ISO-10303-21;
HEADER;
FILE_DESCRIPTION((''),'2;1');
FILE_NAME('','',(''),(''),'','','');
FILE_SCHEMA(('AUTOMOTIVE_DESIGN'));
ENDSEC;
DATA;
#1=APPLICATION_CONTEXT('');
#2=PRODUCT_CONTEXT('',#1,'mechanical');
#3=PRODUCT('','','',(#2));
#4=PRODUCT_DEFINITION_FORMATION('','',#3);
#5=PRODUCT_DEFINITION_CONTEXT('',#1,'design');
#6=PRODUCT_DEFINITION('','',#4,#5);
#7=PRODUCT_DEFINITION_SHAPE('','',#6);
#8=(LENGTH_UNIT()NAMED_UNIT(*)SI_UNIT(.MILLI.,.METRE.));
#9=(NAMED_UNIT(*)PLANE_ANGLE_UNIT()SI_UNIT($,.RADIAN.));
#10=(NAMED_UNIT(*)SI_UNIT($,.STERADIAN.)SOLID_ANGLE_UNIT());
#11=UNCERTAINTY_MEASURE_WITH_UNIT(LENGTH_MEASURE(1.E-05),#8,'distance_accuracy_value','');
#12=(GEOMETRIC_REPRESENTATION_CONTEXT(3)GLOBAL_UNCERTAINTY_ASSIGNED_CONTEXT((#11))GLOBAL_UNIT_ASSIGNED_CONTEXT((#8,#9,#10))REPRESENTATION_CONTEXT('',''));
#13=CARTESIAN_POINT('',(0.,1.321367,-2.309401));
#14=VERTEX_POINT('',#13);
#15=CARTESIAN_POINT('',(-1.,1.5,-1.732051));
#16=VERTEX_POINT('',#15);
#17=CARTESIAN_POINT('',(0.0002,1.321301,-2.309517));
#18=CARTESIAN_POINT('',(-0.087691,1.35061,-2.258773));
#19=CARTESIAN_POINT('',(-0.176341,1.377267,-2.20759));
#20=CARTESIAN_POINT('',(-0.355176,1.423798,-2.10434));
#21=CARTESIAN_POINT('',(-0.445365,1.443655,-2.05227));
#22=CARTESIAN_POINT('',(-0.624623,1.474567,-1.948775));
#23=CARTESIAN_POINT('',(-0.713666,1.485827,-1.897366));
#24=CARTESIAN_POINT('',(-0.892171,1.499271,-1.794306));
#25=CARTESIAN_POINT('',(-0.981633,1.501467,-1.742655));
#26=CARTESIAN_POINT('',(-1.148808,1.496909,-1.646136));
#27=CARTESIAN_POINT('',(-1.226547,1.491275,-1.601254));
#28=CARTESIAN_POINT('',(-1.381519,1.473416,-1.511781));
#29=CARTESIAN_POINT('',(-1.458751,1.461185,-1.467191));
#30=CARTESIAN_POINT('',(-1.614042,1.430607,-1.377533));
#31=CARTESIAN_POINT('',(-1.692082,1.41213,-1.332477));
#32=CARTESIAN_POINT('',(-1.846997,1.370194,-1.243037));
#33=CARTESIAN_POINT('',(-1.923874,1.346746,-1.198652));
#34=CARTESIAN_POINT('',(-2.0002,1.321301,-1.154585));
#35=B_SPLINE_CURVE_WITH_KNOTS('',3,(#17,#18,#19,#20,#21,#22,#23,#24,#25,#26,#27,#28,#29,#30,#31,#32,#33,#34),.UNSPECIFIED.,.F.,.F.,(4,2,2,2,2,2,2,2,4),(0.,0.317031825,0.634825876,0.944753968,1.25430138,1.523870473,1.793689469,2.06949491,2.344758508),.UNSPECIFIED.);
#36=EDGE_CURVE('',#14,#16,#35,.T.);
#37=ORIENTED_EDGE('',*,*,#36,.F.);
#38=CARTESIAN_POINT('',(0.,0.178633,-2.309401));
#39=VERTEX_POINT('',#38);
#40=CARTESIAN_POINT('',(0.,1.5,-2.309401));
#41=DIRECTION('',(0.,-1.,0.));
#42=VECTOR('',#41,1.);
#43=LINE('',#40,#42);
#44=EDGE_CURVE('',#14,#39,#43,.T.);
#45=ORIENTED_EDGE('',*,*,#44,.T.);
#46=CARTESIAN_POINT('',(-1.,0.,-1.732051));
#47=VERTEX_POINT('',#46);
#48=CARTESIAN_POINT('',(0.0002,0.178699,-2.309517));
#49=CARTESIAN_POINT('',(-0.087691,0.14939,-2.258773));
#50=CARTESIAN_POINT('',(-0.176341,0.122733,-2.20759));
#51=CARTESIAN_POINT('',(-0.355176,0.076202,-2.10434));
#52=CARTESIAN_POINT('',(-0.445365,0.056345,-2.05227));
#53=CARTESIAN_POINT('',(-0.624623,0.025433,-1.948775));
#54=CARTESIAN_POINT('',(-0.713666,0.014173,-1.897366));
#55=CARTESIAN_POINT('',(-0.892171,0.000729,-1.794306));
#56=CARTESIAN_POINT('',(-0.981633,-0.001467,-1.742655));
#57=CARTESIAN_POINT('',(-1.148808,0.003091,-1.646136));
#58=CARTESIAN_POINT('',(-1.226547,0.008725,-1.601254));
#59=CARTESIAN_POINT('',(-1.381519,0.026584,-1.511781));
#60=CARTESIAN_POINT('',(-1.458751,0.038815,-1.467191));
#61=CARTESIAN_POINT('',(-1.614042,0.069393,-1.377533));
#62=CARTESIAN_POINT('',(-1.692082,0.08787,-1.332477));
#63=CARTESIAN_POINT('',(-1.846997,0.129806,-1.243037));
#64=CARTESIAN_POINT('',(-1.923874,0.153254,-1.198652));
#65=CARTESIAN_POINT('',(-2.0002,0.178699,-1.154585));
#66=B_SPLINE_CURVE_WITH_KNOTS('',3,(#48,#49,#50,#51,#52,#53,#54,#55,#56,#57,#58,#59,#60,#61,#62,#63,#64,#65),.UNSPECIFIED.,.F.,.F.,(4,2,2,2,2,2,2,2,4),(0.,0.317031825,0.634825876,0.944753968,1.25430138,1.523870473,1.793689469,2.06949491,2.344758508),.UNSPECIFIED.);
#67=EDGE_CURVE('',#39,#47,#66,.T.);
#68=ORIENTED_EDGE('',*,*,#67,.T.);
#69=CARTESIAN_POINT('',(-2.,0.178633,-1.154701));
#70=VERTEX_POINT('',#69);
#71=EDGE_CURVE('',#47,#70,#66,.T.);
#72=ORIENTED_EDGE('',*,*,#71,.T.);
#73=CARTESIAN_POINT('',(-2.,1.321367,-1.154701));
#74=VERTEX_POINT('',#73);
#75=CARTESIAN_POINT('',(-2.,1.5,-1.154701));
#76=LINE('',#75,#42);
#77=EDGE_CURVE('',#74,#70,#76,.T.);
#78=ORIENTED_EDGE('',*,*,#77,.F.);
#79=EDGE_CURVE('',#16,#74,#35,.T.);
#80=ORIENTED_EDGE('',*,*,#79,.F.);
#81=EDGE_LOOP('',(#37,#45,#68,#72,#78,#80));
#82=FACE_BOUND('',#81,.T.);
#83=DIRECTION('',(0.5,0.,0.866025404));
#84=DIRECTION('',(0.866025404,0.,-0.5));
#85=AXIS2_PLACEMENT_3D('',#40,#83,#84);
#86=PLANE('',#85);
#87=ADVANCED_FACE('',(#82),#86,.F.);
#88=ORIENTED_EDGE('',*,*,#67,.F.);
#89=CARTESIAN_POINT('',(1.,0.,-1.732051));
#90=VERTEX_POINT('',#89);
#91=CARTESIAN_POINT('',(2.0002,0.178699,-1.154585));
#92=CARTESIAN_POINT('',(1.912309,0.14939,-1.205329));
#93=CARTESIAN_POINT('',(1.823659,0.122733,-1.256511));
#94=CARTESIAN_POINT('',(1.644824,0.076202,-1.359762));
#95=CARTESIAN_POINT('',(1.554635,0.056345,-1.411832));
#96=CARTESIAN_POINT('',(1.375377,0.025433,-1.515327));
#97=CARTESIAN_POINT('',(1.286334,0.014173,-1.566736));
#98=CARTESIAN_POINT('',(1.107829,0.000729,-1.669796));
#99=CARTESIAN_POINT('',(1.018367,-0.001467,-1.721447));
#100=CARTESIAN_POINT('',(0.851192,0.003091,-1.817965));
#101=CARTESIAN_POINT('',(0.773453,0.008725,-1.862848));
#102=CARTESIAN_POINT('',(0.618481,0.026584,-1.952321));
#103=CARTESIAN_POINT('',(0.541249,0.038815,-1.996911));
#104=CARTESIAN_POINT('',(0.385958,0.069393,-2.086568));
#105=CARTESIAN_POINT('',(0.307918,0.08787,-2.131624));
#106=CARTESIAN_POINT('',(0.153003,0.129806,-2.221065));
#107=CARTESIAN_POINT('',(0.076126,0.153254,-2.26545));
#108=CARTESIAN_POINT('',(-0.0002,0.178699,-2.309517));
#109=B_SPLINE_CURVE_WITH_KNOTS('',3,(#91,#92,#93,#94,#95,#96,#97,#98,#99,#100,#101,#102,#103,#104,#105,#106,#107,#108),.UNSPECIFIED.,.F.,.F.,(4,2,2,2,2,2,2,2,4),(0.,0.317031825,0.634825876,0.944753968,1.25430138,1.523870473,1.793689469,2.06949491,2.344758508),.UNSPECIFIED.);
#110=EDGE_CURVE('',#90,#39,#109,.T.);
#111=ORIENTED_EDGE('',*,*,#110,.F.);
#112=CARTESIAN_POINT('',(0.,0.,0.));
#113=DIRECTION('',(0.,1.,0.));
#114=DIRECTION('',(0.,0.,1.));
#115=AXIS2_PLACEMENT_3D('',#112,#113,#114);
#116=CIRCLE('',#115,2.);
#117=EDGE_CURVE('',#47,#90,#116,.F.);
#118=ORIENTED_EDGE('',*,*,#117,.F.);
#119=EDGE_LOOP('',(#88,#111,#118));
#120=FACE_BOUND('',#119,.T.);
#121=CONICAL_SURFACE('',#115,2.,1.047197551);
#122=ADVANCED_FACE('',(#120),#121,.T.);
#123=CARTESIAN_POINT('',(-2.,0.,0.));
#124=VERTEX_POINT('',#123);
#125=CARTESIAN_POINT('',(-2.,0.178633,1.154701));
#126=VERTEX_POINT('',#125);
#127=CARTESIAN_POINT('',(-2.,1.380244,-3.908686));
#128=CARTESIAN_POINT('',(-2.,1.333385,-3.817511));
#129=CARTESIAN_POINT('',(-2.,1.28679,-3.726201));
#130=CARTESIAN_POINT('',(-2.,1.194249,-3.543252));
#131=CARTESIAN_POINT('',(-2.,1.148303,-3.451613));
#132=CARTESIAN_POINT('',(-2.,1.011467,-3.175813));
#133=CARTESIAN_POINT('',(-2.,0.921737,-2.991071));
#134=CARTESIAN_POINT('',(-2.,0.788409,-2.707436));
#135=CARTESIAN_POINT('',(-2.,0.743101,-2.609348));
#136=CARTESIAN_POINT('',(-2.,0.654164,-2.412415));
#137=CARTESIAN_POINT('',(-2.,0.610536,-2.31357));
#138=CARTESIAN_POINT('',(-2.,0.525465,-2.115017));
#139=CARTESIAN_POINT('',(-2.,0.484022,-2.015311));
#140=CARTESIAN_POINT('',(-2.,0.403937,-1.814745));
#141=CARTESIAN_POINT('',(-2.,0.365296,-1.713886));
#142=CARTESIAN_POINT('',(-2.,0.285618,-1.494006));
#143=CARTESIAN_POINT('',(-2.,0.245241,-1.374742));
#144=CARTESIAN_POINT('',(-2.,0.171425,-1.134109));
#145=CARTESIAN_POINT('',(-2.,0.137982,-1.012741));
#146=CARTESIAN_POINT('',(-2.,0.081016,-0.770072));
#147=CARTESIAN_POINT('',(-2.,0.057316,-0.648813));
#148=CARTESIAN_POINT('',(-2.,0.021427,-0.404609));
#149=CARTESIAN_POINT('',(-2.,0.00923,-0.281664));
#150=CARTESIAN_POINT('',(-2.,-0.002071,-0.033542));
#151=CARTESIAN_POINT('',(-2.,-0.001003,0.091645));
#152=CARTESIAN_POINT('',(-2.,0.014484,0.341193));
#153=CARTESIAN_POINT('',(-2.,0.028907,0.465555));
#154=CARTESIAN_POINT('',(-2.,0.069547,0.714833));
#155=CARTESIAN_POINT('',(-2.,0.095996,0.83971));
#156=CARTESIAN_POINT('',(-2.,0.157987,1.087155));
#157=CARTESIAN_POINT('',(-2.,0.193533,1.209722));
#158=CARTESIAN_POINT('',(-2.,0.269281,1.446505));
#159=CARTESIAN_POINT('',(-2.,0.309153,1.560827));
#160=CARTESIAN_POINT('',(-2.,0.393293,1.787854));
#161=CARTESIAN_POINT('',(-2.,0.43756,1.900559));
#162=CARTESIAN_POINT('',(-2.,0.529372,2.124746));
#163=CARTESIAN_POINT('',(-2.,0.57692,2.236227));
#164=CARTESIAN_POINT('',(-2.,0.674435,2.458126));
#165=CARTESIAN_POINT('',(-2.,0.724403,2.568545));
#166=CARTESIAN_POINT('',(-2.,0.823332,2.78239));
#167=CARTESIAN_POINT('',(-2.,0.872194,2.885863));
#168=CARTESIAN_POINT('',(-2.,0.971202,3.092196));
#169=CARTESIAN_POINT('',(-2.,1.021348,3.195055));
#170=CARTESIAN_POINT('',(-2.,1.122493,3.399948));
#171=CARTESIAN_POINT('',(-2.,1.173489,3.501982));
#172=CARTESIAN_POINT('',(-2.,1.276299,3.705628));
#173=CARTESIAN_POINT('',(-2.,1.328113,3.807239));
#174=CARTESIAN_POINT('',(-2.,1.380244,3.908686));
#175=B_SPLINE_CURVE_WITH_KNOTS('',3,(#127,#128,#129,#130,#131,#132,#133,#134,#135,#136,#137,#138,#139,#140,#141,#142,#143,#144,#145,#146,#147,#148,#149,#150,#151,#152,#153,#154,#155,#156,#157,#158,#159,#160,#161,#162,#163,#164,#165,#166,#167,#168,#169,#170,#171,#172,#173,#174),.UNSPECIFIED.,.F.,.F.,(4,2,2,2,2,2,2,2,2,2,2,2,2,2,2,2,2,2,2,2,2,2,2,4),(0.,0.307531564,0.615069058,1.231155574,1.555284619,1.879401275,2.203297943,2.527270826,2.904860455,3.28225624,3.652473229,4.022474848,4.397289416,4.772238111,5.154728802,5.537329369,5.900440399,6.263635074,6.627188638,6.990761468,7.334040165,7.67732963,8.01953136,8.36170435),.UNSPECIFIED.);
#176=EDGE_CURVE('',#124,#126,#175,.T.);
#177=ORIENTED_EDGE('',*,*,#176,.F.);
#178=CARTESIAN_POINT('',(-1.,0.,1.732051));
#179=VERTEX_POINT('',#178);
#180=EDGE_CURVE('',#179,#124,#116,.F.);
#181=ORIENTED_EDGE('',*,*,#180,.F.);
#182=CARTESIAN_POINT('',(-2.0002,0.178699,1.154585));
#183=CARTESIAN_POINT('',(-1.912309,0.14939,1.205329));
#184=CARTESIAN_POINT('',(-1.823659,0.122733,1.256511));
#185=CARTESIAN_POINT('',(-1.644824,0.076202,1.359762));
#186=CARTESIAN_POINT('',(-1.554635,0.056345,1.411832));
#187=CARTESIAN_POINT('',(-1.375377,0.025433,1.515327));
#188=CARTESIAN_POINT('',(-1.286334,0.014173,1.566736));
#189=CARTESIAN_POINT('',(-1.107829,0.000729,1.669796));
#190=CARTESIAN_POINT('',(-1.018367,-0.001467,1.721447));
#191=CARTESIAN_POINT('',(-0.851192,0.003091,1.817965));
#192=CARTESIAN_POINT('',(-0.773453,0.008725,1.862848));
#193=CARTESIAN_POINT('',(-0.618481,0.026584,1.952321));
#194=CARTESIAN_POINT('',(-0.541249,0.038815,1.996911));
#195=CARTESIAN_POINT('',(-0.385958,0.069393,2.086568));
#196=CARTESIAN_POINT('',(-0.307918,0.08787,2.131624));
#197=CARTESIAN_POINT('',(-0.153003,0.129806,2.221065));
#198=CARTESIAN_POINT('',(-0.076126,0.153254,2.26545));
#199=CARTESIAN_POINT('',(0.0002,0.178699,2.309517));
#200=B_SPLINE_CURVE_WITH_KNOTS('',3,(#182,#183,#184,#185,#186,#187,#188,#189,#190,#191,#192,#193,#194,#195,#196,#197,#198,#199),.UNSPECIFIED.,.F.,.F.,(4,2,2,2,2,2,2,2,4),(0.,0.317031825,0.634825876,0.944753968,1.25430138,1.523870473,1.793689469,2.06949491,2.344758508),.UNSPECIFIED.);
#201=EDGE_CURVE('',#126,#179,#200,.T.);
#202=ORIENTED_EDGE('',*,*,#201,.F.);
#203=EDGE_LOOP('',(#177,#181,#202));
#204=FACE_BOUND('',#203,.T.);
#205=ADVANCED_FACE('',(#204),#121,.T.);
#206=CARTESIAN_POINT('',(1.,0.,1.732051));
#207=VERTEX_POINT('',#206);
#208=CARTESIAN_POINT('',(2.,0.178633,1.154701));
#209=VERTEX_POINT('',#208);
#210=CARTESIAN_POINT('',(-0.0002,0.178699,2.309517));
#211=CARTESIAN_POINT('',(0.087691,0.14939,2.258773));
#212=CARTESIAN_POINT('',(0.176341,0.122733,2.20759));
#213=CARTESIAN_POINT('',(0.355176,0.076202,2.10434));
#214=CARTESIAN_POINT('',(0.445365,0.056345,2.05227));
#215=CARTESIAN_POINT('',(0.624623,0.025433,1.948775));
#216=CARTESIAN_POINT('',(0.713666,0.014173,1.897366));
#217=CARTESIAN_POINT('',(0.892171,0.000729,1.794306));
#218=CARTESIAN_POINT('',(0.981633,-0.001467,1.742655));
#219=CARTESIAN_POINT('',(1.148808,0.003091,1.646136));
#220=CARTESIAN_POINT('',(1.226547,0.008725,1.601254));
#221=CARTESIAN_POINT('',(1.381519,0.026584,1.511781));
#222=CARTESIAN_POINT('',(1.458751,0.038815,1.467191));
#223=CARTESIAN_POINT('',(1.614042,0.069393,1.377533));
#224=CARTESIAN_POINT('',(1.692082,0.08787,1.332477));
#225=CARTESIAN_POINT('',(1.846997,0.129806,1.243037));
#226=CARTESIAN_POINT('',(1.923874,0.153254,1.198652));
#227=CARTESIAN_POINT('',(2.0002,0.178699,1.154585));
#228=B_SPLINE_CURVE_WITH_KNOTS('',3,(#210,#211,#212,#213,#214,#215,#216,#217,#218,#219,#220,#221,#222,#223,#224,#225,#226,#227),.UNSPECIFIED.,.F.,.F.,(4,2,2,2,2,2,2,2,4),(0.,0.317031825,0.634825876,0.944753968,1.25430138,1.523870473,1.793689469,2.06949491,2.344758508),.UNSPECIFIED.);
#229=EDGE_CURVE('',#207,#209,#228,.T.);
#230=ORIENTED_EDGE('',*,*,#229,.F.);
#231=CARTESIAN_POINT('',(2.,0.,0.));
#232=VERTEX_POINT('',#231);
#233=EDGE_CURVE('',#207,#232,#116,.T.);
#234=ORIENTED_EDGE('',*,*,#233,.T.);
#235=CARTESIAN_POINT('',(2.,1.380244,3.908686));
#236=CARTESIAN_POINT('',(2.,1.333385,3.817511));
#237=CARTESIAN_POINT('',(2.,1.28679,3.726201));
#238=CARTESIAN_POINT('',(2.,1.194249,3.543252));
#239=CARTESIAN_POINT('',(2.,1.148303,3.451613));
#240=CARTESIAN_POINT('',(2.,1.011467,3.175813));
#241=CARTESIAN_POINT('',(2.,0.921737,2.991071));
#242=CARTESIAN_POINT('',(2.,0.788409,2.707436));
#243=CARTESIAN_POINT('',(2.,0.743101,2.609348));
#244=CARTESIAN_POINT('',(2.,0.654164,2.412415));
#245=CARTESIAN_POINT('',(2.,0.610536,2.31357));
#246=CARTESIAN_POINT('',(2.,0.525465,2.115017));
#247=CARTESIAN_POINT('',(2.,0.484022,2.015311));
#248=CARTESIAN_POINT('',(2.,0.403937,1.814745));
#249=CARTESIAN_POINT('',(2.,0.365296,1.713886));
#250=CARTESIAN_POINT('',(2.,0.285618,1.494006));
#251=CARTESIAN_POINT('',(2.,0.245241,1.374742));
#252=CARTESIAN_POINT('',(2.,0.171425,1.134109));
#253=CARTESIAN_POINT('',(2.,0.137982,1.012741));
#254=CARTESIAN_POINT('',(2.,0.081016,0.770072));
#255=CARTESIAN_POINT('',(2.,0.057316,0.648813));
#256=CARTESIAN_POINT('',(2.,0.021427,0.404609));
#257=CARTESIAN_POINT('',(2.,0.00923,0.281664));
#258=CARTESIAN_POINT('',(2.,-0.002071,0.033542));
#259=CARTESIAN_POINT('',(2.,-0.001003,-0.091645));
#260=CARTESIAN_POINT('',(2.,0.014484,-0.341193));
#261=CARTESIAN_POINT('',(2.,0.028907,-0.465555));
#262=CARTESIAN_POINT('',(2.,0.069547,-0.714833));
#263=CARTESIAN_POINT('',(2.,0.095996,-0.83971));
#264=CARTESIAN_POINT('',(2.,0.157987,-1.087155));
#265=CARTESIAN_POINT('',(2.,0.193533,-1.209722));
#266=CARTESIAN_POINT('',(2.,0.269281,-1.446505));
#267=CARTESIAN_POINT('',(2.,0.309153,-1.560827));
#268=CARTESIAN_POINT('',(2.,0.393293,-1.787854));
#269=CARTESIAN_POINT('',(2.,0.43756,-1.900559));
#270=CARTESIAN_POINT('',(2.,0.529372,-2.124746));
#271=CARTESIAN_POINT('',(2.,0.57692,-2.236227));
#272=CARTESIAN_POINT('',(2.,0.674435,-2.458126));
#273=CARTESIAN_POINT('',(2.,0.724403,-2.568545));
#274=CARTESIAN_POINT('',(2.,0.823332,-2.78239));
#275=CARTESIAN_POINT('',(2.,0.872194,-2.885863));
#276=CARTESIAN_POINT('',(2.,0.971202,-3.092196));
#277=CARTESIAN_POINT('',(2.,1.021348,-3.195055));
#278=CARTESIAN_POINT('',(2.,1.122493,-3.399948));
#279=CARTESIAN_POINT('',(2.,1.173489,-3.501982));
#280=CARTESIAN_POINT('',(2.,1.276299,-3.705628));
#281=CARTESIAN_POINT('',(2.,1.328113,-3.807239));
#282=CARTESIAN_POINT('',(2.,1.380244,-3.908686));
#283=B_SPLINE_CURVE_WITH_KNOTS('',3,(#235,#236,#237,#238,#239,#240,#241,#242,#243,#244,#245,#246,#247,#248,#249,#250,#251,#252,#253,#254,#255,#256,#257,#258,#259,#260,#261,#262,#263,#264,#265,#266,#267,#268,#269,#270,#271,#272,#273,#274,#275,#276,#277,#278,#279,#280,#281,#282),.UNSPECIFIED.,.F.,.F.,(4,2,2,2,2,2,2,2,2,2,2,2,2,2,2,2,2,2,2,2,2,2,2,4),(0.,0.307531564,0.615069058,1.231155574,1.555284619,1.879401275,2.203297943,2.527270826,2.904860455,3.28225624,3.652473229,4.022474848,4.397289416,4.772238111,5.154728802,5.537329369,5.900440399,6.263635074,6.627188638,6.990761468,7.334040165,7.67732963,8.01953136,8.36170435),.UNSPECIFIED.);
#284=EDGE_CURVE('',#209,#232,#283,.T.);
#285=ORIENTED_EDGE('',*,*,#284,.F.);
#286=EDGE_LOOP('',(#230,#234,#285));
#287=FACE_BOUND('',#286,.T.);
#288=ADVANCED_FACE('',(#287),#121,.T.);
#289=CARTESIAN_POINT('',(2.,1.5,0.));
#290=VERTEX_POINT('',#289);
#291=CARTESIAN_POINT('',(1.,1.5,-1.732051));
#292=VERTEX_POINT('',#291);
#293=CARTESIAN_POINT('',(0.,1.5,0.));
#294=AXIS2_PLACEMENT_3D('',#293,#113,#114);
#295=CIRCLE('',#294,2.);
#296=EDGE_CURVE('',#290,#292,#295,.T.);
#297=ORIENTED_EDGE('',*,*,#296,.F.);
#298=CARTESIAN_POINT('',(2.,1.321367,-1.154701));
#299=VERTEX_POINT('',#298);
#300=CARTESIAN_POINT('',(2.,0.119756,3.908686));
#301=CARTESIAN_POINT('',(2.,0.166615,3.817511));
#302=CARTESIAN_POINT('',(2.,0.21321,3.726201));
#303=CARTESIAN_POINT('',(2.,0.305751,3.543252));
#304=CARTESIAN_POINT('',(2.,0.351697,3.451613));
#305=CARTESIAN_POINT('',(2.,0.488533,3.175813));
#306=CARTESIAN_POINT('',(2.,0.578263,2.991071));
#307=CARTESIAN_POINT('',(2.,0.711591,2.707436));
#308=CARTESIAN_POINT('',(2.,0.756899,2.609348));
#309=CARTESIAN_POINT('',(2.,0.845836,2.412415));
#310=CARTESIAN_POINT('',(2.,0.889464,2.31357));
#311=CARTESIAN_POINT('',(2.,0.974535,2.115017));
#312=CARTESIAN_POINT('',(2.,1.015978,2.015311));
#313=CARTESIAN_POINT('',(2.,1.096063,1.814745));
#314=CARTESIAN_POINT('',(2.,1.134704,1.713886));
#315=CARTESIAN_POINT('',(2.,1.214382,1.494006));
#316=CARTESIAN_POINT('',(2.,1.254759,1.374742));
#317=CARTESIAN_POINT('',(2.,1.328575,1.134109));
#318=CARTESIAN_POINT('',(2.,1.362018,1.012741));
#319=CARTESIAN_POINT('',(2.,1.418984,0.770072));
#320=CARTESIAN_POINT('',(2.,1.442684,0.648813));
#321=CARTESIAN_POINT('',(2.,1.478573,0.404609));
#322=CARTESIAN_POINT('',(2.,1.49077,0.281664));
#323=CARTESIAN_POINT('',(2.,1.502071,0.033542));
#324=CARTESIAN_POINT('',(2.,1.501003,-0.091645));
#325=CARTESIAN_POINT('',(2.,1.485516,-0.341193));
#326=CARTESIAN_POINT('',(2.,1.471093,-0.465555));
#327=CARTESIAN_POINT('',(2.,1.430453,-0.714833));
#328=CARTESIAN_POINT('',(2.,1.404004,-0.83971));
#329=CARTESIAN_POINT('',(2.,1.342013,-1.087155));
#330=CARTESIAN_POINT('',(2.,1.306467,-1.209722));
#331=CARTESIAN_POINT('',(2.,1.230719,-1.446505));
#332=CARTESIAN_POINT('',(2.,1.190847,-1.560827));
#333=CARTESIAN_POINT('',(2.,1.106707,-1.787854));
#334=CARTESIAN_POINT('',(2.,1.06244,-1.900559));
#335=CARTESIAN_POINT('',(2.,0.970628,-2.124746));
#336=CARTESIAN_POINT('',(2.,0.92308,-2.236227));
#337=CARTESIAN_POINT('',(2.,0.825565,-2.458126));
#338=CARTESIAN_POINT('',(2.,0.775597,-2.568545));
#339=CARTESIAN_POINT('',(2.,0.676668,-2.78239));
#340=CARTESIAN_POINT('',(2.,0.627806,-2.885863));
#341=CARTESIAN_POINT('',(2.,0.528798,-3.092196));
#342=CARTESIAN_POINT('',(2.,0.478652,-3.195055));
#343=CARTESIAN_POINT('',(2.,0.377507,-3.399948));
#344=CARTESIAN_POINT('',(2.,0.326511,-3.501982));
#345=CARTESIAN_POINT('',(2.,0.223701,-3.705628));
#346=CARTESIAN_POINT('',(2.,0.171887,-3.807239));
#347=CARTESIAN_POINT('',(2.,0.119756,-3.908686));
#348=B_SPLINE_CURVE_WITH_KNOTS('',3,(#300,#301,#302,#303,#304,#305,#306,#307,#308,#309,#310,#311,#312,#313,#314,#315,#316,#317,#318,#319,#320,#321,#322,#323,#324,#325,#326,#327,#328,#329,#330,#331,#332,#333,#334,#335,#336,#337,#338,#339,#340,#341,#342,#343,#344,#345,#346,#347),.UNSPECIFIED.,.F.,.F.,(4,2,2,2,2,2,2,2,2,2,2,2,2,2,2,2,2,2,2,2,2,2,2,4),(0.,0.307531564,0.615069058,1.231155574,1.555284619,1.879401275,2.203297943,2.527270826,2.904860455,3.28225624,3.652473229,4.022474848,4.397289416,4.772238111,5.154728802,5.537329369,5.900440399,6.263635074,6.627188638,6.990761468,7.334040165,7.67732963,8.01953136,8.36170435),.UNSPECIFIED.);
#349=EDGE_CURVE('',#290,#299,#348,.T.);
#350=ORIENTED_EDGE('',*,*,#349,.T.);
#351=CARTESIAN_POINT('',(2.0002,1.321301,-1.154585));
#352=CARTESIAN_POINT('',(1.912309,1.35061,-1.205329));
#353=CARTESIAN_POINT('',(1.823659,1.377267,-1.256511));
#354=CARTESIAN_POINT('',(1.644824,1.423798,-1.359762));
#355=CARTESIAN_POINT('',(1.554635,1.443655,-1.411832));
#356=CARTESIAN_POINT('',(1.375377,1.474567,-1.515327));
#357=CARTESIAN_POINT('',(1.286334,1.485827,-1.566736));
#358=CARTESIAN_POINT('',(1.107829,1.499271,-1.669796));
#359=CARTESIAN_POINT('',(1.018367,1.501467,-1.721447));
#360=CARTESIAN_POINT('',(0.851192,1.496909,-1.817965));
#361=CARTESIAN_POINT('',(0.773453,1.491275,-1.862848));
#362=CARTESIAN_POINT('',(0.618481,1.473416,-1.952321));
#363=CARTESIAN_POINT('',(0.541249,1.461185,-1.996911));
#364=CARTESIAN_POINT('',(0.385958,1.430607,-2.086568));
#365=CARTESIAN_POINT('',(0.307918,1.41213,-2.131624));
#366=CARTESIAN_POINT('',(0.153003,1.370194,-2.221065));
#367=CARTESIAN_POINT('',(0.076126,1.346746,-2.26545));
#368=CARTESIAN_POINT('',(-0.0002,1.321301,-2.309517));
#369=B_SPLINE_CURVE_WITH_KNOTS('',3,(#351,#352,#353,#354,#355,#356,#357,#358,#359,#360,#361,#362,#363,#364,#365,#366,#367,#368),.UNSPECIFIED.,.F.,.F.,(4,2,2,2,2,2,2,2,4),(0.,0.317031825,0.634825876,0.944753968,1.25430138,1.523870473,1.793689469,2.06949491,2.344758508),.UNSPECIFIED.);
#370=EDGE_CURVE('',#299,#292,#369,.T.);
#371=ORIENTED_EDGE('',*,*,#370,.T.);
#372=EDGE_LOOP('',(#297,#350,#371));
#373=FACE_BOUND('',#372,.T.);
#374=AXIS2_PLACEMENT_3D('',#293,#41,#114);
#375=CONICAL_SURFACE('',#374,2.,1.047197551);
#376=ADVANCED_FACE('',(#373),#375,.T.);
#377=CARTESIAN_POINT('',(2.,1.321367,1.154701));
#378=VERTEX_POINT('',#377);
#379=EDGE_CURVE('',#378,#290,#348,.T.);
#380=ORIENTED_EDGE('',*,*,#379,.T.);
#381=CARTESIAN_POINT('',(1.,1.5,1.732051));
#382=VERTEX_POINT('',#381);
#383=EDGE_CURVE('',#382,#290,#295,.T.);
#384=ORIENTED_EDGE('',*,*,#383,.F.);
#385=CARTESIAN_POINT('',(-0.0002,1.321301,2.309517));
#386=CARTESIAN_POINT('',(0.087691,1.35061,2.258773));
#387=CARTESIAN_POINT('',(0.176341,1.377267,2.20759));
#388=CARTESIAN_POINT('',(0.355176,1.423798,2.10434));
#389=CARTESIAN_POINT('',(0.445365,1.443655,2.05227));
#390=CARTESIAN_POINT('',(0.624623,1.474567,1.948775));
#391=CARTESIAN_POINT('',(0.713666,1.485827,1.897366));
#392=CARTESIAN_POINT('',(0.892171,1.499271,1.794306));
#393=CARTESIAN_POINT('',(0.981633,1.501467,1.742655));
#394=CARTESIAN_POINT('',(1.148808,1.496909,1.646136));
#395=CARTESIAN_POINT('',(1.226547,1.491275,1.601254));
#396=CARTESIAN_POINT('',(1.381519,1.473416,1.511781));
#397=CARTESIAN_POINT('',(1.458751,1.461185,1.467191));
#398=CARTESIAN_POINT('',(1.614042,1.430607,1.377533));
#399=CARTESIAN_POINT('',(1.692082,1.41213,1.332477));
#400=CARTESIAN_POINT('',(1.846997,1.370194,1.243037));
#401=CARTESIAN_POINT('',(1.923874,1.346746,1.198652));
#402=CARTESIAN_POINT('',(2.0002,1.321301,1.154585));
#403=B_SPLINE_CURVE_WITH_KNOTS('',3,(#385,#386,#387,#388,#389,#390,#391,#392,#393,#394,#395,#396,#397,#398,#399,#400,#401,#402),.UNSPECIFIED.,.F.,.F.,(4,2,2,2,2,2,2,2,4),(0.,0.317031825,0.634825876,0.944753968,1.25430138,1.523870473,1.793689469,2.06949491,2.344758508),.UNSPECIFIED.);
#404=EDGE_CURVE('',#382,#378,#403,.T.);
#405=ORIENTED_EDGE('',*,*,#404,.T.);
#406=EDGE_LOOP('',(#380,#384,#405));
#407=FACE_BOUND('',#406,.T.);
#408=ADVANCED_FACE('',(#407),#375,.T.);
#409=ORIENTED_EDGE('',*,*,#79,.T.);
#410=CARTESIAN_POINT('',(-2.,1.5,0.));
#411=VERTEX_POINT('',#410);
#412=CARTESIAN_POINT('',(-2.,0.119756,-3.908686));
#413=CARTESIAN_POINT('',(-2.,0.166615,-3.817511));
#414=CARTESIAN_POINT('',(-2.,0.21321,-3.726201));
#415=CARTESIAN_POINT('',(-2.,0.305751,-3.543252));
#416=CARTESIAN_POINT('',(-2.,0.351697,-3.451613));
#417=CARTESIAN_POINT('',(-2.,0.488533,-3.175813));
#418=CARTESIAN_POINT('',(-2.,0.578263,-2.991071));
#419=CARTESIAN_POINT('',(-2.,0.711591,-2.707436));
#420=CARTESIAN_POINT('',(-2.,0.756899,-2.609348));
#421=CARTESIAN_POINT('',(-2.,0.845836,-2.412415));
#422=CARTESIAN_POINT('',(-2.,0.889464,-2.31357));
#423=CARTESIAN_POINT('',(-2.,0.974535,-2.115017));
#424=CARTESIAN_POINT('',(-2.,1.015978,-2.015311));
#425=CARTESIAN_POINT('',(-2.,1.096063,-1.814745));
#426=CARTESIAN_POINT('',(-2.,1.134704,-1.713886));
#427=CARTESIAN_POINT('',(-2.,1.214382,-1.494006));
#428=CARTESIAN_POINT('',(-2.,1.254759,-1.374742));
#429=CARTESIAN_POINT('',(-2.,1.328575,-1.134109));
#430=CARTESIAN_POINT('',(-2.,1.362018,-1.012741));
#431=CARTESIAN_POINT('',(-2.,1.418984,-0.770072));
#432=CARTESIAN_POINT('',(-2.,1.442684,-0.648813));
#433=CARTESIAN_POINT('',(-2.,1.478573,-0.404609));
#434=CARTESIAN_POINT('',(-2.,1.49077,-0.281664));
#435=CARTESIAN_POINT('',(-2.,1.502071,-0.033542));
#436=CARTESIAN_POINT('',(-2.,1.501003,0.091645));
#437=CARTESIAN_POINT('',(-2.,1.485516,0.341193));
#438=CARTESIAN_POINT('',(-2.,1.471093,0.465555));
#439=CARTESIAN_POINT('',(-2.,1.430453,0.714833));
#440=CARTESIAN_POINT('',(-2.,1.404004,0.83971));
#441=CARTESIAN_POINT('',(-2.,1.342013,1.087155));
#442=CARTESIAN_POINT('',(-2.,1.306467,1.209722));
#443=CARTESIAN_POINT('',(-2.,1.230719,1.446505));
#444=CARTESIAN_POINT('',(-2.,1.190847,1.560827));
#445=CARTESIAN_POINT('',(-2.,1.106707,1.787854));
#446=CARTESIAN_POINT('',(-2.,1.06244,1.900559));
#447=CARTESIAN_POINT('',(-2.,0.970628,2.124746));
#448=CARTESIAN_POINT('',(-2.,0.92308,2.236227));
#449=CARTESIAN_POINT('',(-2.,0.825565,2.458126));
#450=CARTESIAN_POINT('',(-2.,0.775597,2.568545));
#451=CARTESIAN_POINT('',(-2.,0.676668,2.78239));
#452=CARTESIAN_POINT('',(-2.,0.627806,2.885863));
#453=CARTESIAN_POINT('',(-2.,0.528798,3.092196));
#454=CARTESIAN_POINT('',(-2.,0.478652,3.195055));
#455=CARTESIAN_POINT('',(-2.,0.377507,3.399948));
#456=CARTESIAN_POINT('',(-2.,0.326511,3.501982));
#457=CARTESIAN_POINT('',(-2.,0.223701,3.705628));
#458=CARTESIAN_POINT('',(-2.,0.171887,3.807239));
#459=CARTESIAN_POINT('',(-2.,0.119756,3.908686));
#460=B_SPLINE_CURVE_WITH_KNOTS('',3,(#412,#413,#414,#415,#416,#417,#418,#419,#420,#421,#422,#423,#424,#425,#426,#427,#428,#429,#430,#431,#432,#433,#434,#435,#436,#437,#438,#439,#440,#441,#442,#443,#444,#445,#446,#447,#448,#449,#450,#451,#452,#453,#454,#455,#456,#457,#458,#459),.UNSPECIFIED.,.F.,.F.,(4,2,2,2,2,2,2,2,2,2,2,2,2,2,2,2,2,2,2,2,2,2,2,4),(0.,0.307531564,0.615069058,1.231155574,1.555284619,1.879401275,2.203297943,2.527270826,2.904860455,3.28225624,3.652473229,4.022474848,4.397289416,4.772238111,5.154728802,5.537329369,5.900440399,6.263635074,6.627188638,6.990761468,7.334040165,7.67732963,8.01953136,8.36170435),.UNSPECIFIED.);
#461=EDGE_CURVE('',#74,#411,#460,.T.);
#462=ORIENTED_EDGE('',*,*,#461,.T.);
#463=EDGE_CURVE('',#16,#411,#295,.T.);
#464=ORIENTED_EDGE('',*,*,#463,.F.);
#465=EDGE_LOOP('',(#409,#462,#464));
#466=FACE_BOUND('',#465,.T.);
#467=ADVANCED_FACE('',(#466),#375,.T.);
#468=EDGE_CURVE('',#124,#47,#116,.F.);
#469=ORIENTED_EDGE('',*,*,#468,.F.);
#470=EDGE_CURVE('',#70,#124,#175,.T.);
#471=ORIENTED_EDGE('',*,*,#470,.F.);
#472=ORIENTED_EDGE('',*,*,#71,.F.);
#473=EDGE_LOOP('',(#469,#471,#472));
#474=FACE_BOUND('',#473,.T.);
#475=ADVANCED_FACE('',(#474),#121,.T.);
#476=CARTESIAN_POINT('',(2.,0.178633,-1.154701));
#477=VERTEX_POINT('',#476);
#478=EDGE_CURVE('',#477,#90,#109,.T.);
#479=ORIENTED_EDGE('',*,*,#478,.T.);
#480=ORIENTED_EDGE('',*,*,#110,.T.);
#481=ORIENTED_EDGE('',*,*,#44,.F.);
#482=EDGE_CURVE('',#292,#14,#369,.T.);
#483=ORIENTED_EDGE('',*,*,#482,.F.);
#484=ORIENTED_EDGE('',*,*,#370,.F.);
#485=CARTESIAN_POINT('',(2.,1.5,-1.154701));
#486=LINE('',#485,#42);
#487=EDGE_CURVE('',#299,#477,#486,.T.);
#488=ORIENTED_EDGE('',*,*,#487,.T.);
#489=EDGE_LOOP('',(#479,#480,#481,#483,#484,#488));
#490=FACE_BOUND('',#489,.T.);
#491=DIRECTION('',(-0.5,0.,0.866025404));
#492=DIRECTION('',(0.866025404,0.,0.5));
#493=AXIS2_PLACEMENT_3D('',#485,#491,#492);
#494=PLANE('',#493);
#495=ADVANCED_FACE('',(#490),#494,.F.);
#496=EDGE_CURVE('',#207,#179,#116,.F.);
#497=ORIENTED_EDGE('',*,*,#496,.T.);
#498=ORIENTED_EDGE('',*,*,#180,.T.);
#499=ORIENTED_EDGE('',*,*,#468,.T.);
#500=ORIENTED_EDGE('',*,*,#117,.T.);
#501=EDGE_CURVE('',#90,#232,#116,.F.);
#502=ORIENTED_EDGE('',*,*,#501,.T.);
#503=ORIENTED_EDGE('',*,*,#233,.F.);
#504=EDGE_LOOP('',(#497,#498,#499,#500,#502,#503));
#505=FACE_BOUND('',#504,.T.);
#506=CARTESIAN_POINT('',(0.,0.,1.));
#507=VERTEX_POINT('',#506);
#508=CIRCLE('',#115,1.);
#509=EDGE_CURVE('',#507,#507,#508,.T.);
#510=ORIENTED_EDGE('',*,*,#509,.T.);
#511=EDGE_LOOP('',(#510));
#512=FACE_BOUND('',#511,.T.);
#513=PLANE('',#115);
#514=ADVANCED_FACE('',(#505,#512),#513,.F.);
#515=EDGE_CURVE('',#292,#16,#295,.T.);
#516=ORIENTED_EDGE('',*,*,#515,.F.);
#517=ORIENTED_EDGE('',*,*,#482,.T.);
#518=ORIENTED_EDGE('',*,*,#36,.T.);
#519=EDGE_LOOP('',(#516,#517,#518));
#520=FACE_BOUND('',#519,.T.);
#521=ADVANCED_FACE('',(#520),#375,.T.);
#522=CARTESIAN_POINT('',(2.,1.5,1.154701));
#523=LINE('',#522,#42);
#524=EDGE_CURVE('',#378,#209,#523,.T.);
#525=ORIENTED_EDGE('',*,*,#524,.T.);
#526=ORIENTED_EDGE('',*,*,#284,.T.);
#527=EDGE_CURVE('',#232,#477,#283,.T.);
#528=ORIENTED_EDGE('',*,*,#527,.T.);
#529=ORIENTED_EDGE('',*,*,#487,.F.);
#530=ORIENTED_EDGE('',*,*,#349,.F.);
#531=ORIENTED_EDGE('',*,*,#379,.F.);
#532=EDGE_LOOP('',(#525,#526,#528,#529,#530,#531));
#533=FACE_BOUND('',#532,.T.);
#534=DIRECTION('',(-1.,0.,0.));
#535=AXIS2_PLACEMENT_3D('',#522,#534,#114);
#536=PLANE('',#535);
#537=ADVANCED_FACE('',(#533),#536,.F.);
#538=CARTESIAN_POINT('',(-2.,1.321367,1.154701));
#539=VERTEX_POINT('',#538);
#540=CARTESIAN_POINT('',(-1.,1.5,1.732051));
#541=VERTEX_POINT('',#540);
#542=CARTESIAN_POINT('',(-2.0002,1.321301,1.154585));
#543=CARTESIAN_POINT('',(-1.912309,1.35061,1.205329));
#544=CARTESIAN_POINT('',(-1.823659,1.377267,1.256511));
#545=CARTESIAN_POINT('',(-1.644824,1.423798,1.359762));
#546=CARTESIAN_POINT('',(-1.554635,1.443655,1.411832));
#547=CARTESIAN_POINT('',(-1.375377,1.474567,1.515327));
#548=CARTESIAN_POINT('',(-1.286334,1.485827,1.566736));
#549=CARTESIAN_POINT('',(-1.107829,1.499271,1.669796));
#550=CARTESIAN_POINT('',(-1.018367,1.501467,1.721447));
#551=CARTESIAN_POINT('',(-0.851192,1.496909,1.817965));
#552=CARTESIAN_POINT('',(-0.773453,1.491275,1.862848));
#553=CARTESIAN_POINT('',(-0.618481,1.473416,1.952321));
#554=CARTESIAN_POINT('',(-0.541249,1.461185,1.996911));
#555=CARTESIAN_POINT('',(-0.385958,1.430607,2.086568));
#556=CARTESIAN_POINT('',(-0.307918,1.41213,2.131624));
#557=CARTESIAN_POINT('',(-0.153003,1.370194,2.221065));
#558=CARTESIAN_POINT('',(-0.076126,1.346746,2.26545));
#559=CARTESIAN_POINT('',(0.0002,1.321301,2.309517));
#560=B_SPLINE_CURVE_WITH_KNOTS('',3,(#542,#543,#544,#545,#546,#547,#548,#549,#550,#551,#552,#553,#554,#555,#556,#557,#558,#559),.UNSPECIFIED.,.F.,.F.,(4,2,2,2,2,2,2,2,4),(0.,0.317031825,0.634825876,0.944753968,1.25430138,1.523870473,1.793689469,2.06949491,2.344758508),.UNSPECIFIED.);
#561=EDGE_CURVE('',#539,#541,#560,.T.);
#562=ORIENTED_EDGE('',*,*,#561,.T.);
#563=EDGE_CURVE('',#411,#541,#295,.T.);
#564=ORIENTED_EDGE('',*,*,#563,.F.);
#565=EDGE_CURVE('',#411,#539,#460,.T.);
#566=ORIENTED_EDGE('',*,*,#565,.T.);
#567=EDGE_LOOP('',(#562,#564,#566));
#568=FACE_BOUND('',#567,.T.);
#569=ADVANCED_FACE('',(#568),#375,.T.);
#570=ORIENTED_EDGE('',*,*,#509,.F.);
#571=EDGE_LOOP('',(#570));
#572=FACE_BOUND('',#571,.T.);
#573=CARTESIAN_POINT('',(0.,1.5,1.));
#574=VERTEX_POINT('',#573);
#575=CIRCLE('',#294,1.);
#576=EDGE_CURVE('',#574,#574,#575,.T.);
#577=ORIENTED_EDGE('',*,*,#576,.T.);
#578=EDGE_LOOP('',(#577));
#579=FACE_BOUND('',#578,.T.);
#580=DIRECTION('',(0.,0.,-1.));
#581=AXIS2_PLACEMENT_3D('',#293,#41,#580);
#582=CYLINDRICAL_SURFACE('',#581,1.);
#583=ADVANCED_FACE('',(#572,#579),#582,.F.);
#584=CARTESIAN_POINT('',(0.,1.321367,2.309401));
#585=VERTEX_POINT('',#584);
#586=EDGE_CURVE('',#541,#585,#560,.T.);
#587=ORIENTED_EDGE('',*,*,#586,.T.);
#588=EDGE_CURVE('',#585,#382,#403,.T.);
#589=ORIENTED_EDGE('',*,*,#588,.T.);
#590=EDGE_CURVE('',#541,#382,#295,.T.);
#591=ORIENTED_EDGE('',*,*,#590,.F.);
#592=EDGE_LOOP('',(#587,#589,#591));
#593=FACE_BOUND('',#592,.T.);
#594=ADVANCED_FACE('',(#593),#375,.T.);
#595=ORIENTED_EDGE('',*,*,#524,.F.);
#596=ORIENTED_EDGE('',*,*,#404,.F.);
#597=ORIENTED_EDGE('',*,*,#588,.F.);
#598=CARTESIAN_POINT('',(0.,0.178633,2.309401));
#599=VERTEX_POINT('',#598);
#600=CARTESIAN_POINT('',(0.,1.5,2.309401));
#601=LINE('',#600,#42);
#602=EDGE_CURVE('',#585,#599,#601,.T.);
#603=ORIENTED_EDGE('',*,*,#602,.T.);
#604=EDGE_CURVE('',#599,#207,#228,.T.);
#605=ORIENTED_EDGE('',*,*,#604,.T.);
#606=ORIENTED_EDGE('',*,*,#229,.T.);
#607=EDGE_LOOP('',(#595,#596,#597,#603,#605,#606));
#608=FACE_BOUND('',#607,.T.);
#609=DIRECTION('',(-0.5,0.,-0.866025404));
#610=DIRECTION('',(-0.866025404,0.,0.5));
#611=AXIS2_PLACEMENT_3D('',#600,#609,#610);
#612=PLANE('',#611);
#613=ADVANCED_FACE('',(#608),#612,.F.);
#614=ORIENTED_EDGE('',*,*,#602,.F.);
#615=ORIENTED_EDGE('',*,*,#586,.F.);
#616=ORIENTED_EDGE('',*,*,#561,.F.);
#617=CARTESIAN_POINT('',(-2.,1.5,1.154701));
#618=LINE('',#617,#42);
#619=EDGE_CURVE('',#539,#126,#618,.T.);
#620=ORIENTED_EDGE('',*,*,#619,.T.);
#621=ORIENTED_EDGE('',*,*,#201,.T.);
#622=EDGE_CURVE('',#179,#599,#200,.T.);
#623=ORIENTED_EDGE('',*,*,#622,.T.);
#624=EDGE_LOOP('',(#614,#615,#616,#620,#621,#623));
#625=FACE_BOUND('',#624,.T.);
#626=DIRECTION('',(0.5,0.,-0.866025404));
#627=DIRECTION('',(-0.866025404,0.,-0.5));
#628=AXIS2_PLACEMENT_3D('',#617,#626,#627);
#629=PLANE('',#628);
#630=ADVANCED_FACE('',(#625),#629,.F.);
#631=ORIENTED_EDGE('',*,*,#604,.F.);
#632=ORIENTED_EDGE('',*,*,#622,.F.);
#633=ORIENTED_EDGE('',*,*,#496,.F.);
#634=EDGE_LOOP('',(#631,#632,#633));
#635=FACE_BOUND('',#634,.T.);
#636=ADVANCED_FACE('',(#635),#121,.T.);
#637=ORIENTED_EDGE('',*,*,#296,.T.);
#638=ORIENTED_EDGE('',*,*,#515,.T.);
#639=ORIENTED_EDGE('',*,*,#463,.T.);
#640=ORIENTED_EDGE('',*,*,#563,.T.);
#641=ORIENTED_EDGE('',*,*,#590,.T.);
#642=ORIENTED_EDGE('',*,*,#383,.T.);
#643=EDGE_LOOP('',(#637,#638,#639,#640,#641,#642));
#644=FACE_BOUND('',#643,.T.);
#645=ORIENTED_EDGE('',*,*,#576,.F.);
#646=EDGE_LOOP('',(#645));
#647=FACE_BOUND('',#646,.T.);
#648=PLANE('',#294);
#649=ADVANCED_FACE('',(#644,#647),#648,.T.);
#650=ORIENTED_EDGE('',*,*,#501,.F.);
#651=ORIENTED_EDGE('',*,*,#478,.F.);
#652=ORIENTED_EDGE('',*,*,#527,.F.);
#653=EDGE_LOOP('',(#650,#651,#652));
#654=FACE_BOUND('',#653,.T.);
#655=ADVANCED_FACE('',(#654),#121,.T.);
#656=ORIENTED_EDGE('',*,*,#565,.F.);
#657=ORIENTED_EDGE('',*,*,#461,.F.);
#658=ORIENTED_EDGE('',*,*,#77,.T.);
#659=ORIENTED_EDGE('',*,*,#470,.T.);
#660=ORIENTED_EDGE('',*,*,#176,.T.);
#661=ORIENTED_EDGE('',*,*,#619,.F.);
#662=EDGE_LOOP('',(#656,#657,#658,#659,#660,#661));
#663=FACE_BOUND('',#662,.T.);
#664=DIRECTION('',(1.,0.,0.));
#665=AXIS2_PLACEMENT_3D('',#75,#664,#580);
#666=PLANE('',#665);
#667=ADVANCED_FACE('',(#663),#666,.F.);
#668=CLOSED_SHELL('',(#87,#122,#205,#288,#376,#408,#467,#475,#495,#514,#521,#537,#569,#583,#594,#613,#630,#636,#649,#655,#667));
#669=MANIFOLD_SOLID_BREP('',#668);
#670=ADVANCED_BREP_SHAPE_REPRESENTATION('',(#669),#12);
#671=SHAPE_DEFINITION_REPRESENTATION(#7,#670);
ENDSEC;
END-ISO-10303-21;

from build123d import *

# Parameters (mm, degrees)
SKETCH1_R               = 1
BOSS_EXTRUDE1_DEPTH     = 1.5
SKETCH2_OUTSIDE_W       = 14.186
SKETCH2_OUTSIDE_H       = 14.804
SKETCH2_OUTSIDE_R       = 2
CUT_EXTRUDE1_DEPTH      = 2
CUT_EXTRUDE1_DRAFT      = -60
MIRROR1_COPY_1_SKETCH_W = 14.186
MIRROR1_COPY_1_SKETCH_H = 14.804
MIRROR1_COPY_1_SKETCH_R = 2
MIRROR1_COPY_1_DEPTH    = 2
MIRROR1_COPY_1_DRAFT    = -60


with BuildPart() as part:
    # Sketch1 → Boss-Extrude1 (new body)
    with BuildSketch(Plane(origin=(0, 0, 0), x_dir=(1, 0, 0), z_dir=(0, 1, 0))):
        Polygon((0, 2.309401077), (-2, 1.154700538), (-2, -1.154700538), (0, -2.309401077), (2, -1.154700538), (2, 1.154700538), align=None)
        with Locations(Location((0, 0, 0), (0, 0, 270))):
            Circle(SKETCH1_R, mode=Mode.SUBTRACT)
    extrude(amount=BOSS_EXTRUDE1_DEPTH)


with BuildPart() as cut_extrude1_tool:
    # Sketch2 outside → Cut-Extrude1 (with draft: the straight prism first)
    with BuildSketch(Plane(origin=(0, 1.5, 0), x_dir=(1, 0, 0), z_dir=(0, 1, 0))):
        Rectangle(SKETCH2_OUTSIDE_W, SKETCH2_OUTSIDE_H)
        Circle(SKETCH2_OUTSIDE_R, mode=Mode.SUBTRACT)
    extrude(amount=-CUT_EXTRUDE1_DEPTH)
    # Cut-Extrude1: the draft: its side faces are tilted about the plane it starts from
    cut_extrude1_sides = [cut_extrude1_tool.faces().sort_by_distance(p)[0] for p in [
        (0, 0.5, 7.402),
        (7.093, 0.5, 0),
        (0, 0.5, -7.402),
        (-7.093, 0.5, 0),
        (-2, 0.5, 0),
    ]]
    draft(cut_extrude1_sides, Plane(origin=(0, 1.5, 0), x_dir=(1, 0, 0), z_dir=(0, 1, 0)), CUT_EXTRUDE1_DRAFT)


with BuildPart() as part_1:
    add(part.part)

    # Cut-Extrude1: cut by cut_extrude1_tool
    add(cut_extrude1_tool.part, mode=Mode.SUBTRACT)


with BuildPart() as mirror1_copy_1_tool:
    # Mirror1 copy 1 sketch → Mirror1 copy 1 (with draft: the straight prism first)
    with BuildSketch(Plane.XZ):
        Rectangle(MIRROR1_COPY_1_SKETCH_W, MIRROR1_COPY_1_SKETCH_H)
        Circle(MIRROR1_COPY_1_SKETCH_R, mode=Mode.SUBTRACT)
    extrude(amount=-MIRROR1_COPY_1_DEPTH)
    # Mirror1 copy 1: the draft: its side faces are tilted about the plane it starts from
    mirror1_copy_1_sides = [mirror1_copy_1_tool.faces().sort_by_distance(p)[0] for p in [
        (0, 1, 7.402),
        (7.093, 1, 0),
        (0, 1, -7.402),
        (-7.093, 1, 0),
        (-2, 1, 0),
    ]]
    draft(mirror1_copy_1_sides, Plane.XZ, MIRROR1_COPY_1_DRAFT)


with BuildPart() as part_2:
    add(part_1.part)

    # Mirror1 copy 1: cut by mirror1_copy_1_tool
    add(mirror1_copy_1_tool.part, mode=Mode.SUBTRACT)


solid = part_2.part
